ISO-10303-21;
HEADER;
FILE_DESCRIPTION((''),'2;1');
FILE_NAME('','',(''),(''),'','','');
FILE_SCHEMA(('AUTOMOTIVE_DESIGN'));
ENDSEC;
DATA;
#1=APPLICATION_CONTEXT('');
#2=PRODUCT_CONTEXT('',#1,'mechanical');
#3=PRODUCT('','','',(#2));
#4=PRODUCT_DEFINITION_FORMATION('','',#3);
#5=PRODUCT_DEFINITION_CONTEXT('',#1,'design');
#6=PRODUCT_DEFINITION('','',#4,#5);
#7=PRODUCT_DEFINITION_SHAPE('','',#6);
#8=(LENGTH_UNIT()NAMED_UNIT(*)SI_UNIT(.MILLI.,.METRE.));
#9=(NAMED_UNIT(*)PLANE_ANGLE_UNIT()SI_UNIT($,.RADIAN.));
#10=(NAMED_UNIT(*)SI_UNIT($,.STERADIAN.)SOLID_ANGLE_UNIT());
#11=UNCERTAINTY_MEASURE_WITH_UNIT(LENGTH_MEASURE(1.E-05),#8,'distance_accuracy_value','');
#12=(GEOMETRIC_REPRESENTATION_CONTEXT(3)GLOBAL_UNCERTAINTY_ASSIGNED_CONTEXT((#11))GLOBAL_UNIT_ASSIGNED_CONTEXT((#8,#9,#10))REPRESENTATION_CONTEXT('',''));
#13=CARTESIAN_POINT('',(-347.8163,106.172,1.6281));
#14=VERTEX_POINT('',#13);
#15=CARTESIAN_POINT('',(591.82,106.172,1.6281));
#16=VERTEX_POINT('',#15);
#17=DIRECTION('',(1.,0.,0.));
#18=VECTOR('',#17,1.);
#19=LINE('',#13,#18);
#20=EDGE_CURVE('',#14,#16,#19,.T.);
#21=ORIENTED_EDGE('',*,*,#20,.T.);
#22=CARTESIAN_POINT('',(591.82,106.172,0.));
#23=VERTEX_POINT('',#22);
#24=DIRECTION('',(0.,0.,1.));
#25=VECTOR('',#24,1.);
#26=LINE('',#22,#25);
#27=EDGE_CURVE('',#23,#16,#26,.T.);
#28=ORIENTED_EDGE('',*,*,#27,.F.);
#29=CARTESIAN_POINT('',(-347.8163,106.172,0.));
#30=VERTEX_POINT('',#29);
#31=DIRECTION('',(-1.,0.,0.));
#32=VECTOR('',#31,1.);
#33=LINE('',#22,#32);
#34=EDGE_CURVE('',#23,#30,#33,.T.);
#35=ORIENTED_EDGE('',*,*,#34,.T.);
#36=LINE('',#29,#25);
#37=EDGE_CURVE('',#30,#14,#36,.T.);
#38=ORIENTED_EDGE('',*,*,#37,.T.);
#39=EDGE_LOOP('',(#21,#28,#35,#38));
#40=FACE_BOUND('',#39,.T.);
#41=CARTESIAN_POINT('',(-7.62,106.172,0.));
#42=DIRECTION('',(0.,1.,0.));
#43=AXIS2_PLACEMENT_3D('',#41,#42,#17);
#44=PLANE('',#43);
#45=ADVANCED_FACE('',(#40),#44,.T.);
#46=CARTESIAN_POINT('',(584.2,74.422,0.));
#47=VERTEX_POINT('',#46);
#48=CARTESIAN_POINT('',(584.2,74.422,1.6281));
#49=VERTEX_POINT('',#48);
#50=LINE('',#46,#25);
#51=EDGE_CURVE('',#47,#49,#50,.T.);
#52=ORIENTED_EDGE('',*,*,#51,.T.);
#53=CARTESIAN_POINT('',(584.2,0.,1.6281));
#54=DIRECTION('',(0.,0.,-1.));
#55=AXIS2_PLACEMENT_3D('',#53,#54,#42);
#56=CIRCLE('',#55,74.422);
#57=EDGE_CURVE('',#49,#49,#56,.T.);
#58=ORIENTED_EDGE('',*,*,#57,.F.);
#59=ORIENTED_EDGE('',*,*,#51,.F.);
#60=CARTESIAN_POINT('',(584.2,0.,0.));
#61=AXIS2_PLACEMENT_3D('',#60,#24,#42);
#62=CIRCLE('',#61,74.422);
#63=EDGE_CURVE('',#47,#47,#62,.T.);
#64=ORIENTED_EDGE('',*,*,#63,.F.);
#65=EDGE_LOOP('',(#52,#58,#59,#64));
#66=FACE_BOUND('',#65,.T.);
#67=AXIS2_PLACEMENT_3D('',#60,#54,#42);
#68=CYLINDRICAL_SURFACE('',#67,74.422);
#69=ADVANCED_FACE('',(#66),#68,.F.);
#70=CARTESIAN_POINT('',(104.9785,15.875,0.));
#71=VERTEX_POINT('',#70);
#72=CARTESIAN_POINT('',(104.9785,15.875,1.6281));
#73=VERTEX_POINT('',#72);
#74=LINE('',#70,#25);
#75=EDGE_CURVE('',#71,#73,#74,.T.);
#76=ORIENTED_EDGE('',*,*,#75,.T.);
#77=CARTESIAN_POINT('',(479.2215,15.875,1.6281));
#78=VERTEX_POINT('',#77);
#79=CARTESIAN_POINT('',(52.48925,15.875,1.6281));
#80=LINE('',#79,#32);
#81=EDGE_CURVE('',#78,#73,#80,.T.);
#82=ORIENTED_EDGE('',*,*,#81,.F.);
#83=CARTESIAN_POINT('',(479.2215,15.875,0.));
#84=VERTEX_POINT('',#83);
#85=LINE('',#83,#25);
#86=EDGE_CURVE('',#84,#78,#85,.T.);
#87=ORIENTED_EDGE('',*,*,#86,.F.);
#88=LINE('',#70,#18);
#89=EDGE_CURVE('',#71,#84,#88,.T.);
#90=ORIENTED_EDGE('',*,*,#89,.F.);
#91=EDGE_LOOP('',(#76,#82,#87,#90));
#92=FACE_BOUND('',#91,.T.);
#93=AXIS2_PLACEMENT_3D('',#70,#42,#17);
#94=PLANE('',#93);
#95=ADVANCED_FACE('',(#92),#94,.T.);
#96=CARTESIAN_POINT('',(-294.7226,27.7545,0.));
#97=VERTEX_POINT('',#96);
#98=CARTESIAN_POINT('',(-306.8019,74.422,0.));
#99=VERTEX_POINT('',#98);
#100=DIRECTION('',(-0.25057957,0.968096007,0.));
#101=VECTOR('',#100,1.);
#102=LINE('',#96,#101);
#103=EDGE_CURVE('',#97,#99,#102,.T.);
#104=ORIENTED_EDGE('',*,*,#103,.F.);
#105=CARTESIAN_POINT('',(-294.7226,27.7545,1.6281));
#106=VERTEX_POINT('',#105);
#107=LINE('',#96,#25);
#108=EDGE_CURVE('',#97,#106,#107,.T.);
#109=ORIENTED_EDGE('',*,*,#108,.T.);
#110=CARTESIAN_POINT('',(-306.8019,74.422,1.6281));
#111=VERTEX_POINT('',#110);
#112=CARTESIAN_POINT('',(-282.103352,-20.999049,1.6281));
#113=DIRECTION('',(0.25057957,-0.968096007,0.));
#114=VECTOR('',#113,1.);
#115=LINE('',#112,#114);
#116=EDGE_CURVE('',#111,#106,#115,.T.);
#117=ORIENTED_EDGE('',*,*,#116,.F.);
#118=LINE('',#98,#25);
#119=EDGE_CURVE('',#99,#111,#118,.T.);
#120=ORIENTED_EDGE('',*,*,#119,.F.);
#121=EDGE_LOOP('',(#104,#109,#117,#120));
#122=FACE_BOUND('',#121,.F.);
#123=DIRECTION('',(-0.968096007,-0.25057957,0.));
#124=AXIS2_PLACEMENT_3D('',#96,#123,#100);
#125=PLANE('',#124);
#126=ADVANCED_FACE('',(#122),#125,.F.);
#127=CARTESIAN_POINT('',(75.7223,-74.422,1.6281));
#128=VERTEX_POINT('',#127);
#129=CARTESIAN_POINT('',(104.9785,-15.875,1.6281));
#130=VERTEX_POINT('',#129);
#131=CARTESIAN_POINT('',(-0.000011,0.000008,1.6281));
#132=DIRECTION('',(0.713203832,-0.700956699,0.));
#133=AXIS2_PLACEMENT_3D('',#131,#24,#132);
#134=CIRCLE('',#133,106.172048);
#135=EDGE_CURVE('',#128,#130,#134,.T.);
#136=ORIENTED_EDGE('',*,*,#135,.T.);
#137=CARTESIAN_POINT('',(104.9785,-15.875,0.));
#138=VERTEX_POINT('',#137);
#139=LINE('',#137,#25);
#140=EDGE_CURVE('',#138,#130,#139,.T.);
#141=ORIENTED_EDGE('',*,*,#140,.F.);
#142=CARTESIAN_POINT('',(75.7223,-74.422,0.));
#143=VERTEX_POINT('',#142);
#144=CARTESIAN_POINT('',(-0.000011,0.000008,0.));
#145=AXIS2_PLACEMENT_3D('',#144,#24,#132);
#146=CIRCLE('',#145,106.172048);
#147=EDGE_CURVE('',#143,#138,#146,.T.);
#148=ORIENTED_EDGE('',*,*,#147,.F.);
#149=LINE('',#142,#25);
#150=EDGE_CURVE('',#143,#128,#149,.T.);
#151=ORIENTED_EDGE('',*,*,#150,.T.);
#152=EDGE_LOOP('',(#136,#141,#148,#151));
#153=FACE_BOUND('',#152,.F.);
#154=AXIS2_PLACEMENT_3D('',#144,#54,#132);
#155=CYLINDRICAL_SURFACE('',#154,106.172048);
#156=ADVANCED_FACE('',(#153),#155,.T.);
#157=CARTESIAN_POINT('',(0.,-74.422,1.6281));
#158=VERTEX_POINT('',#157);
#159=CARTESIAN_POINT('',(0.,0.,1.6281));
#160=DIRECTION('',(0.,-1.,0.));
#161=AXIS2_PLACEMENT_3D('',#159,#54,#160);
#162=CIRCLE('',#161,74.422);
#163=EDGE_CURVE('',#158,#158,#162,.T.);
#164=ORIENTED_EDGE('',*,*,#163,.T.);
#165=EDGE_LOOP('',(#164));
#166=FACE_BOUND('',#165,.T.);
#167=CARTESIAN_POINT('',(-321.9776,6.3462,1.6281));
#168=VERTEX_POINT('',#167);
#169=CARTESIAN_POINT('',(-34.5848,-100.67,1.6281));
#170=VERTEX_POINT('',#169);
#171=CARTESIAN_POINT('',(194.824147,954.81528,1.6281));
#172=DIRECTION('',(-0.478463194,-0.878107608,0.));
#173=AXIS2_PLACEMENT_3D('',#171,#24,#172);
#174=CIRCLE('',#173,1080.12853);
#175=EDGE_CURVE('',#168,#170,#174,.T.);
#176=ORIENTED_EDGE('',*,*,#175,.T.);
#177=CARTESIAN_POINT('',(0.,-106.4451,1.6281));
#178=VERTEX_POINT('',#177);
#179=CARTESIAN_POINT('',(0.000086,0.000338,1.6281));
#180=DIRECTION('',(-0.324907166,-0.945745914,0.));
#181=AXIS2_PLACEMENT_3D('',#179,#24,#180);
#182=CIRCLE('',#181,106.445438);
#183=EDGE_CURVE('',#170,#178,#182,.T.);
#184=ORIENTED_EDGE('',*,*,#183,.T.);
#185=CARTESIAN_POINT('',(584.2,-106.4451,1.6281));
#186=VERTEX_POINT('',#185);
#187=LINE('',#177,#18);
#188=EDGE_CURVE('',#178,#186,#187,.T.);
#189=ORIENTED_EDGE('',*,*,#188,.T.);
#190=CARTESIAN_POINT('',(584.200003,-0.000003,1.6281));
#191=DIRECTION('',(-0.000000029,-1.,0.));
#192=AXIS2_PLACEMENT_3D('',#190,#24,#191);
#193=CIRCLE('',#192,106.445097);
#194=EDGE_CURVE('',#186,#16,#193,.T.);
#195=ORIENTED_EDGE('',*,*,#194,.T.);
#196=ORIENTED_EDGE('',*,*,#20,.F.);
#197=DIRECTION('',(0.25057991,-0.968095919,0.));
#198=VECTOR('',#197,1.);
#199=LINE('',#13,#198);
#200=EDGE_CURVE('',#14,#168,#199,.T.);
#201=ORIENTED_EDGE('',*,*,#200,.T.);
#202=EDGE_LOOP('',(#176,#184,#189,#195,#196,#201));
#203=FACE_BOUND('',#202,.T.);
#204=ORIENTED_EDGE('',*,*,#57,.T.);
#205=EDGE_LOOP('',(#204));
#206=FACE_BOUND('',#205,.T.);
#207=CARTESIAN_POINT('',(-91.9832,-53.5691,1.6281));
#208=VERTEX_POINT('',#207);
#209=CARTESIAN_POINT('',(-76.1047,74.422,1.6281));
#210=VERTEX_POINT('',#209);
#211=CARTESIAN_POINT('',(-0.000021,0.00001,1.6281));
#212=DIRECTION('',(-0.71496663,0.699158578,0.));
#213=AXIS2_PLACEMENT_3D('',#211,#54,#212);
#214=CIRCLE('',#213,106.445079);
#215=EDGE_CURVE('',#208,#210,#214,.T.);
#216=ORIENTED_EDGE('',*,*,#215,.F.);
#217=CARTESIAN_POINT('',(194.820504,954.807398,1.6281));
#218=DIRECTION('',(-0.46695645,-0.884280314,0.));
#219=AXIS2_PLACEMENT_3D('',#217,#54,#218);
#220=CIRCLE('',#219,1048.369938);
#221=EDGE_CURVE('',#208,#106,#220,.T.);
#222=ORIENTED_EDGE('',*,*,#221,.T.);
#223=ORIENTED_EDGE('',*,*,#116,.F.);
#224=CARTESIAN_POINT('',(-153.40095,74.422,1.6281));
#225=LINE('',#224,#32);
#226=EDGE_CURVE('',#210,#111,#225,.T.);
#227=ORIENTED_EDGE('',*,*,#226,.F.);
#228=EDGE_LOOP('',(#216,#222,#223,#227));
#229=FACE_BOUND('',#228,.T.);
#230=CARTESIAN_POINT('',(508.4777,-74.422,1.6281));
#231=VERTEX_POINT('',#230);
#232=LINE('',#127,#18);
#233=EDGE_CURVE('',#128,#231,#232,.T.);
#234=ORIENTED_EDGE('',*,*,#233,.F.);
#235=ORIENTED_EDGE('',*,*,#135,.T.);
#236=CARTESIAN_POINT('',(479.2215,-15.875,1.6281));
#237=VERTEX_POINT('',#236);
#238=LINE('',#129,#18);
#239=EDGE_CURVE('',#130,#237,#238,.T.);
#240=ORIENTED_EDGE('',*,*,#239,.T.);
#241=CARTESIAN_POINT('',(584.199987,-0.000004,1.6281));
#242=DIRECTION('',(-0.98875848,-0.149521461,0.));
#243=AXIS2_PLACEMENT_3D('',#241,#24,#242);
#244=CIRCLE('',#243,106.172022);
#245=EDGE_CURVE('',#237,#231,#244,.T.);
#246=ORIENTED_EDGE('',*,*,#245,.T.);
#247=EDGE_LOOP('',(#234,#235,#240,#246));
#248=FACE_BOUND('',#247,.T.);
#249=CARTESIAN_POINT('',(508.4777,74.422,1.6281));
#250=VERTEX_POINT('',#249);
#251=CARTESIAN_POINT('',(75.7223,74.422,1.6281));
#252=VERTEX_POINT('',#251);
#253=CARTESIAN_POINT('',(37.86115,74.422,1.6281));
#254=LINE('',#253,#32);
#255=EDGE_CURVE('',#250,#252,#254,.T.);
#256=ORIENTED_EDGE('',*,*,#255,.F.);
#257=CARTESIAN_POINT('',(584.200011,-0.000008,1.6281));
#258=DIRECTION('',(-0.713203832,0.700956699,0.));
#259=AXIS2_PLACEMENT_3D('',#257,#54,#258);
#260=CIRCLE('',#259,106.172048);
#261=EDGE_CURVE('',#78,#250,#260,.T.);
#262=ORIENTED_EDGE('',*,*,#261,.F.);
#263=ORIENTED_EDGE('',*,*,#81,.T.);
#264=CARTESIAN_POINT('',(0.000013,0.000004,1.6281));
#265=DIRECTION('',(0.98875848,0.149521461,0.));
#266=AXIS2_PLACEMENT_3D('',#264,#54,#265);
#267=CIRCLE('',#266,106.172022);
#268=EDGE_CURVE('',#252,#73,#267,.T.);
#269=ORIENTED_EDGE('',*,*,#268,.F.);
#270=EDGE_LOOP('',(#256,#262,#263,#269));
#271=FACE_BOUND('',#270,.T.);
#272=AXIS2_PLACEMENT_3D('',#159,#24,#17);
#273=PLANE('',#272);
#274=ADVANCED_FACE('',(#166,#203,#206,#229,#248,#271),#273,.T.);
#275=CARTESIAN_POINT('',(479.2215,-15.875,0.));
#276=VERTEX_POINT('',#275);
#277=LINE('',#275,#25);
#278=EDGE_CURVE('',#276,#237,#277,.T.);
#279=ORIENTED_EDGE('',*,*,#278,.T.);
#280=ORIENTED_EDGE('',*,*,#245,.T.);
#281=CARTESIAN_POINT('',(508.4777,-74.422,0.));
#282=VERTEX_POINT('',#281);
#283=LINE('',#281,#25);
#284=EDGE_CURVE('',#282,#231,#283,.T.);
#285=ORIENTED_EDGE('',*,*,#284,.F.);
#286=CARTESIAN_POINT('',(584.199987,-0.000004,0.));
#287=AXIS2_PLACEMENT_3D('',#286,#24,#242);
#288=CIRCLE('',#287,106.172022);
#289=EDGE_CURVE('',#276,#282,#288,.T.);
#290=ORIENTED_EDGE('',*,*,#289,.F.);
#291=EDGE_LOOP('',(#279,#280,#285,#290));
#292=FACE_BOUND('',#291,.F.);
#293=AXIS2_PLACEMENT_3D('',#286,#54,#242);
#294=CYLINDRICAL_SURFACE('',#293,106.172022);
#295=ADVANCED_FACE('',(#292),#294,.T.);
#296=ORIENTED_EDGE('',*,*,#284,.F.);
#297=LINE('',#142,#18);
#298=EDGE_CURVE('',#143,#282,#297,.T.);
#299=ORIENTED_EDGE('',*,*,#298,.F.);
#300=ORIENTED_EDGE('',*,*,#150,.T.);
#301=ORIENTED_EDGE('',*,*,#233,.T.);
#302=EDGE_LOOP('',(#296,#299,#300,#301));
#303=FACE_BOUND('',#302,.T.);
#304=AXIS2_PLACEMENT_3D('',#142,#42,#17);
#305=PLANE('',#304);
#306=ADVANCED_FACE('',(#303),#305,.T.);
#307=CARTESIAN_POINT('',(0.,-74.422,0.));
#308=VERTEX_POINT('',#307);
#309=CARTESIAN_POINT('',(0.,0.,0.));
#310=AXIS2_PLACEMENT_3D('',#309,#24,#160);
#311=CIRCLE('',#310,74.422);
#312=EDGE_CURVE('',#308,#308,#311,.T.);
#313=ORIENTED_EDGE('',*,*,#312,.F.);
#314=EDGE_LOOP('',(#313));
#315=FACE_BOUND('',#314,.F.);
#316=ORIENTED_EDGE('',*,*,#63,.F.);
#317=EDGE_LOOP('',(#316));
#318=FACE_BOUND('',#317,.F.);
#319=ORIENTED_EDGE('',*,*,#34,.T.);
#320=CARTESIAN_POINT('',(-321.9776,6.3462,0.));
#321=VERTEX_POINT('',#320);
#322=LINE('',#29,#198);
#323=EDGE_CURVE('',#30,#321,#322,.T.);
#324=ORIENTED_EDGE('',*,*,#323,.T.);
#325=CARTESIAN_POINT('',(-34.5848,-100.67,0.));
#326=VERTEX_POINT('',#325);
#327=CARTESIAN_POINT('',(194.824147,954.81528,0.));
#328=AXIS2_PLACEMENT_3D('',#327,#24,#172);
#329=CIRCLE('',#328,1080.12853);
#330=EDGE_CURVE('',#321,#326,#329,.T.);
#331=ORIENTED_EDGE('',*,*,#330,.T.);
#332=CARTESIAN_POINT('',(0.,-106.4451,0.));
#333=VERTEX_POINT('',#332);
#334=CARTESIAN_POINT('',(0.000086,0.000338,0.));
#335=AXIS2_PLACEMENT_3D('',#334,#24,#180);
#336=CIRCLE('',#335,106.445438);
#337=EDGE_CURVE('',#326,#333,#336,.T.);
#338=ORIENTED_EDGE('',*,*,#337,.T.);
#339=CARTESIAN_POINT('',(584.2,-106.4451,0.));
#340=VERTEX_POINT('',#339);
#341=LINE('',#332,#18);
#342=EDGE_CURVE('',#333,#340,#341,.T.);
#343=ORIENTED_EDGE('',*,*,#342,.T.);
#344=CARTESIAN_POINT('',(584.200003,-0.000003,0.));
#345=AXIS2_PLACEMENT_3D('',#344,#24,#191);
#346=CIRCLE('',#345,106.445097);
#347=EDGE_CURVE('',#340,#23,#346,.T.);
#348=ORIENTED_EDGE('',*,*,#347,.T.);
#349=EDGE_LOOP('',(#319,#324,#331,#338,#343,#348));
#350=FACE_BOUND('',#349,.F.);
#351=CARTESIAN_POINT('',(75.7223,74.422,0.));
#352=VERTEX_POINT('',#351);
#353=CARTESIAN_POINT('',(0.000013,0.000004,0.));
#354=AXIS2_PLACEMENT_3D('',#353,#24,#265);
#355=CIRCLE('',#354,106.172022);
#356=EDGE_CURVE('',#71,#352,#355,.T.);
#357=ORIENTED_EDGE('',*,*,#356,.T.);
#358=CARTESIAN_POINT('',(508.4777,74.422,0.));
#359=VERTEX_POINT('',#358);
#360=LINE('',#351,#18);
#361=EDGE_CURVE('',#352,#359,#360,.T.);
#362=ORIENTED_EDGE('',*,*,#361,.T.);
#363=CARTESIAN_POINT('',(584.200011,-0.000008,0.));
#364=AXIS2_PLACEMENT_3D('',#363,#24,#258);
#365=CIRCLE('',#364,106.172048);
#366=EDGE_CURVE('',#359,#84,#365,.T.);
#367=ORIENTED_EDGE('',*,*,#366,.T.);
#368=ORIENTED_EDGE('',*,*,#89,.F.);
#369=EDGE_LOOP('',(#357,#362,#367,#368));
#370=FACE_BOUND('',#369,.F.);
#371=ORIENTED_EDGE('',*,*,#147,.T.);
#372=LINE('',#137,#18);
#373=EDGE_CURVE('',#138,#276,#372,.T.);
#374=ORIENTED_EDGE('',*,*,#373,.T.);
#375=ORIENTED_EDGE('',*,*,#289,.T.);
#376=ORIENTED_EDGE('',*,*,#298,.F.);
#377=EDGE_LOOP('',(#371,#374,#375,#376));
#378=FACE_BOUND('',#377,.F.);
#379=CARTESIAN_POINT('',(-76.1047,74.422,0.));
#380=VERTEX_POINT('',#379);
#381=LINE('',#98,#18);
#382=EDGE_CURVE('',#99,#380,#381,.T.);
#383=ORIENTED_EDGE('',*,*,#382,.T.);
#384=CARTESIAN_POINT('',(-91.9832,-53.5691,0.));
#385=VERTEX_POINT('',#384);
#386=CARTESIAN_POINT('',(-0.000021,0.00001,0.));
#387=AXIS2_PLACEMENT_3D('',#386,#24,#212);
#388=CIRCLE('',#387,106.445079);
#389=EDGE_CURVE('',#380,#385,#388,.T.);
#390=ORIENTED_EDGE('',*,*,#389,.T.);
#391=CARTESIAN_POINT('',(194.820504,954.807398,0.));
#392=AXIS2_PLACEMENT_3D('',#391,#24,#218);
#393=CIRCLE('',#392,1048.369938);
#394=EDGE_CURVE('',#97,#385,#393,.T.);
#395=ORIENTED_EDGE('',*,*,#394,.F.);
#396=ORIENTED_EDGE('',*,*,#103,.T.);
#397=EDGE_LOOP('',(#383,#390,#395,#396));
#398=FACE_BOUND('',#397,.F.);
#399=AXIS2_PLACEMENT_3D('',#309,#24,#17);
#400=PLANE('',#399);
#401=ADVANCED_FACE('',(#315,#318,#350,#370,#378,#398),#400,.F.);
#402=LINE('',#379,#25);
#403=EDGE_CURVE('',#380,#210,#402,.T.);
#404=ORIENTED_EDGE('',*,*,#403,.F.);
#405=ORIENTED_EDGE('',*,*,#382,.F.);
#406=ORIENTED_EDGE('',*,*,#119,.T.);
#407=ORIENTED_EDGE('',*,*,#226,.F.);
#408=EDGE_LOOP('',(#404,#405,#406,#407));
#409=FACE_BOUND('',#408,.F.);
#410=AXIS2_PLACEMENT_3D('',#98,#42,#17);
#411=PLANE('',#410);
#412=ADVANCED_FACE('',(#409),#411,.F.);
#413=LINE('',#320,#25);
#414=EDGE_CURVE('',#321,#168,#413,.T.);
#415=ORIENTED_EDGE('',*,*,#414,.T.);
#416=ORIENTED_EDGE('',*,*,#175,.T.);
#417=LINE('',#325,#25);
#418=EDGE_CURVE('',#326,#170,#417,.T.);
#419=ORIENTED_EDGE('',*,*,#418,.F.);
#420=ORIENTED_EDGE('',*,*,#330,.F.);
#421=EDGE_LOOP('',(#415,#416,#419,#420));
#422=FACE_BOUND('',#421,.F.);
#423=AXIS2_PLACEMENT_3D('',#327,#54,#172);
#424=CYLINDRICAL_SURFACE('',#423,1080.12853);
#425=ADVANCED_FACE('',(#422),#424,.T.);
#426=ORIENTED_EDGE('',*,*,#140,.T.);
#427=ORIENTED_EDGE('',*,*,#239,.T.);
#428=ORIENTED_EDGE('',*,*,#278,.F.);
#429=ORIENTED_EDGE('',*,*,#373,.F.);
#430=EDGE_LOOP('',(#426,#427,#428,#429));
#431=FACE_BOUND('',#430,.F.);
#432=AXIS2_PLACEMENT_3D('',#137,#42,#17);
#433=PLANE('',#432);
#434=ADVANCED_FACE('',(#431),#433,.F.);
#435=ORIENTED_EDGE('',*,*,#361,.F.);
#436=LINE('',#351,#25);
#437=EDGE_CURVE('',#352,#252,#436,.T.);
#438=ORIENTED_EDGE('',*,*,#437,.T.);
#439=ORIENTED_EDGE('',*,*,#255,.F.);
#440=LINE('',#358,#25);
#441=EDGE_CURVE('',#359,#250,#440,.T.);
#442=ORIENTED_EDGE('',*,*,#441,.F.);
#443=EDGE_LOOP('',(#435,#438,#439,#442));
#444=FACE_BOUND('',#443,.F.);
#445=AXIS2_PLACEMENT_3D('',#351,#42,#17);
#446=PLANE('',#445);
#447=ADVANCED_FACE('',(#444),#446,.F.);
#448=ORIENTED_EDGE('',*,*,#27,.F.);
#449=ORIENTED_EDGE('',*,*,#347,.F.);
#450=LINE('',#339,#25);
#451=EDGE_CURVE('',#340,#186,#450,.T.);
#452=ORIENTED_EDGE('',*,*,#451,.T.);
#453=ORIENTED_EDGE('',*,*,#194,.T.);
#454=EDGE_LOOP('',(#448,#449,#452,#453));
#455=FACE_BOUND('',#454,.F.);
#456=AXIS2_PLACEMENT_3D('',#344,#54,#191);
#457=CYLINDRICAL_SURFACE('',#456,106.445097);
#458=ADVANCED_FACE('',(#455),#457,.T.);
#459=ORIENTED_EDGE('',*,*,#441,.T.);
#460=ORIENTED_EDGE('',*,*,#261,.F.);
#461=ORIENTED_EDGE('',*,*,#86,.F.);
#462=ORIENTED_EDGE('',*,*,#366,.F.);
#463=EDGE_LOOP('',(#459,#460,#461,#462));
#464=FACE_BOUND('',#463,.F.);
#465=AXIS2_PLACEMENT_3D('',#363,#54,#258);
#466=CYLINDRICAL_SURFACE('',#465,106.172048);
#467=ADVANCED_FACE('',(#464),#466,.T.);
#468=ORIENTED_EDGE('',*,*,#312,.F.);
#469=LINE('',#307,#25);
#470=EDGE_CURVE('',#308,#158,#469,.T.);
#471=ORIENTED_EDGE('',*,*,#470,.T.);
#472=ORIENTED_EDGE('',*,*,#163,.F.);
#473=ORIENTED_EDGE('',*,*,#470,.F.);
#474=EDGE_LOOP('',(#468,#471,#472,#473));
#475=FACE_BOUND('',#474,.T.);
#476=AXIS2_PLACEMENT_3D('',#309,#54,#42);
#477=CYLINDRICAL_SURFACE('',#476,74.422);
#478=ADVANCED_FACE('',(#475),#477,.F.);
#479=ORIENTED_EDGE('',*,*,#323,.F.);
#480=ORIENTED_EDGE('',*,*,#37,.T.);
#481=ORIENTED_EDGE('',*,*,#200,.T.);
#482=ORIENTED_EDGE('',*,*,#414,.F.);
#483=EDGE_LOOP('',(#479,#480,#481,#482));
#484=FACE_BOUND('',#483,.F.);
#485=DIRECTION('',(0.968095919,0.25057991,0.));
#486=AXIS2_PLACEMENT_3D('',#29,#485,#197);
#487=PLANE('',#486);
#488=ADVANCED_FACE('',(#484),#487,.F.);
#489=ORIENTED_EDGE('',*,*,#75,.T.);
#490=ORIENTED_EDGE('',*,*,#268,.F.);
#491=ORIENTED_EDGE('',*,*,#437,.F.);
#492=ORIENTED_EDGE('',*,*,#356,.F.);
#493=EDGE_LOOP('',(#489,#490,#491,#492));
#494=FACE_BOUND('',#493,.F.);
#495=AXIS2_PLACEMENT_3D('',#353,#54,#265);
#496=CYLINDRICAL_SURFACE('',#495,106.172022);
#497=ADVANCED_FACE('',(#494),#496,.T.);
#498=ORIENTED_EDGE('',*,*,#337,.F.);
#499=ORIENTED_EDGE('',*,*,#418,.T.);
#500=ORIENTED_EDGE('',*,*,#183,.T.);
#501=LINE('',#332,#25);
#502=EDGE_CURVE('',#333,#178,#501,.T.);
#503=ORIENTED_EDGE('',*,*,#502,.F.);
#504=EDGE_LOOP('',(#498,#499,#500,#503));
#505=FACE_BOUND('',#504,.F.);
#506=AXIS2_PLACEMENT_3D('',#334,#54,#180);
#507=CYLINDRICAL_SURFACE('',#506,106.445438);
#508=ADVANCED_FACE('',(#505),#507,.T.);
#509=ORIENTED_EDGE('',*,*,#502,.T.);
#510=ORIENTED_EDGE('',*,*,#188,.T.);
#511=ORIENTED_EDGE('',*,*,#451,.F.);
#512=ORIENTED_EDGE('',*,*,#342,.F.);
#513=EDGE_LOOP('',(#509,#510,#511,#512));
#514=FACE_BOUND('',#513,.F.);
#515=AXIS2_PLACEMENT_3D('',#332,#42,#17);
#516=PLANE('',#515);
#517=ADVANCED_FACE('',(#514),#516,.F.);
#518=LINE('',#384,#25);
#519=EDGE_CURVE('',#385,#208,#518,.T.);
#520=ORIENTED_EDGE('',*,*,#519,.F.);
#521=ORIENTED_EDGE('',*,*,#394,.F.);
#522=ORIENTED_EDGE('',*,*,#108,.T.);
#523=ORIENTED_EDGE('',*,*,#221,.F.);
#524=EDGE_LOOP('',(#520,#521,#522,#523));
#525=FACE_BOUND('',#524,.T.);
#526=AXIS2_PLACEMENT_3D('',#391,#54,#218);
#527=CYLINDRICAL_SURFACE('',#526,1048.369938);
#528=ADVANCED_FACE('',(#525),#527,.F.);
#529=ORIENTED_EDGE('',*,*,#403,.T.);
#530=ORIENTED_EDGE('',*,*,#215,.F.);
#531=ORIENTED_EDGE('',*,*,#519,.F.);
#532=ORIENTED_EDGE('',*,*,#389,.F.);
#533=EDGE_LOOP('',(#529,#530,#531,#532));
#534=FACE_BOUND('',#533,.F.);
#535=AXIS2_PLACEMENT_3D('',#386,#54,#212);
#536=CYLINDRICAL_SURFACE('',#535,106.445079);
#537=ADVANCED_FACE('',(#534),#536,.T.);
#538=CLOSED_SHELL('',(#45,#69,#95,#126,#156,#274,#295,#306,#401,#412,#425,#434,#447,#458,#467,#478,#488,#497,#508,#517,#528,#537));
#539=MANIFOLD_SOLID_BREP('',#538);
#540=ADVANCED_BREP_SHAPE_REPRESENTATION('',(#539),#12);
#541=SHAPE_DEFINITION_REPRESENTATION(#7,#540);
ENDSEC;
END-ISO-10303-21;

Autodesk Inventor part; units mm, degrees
ref_plane "YZ Plane" through (0, 0, 0) normal (1, 0, 0) x (0, 1, 0)
ref_plane "XZ Plane" through (0, 0, 0) normal (0, 1, 0) x (-1, 0, 0)
ref_plane "XY Plane" through (0, 0, 0) normal (0, 0, 1) x (1, 0, 0)
sketch "Fender Base" plane through (0, 0, 0) normal (0, 0, 1) x (1, 0, 0)
  line L0 (-7.62, 106.172) -> (7.62, 106.172) construction
  line L1 (111.252, 7.62) -> (111.252, -7.62)
  line L2 (576.58, 106.172) -> (591.82, 106.172) construction
  line L3 (692.912, 7.62) -> (692.912, -7.62) construction
  line L4 (-7.62, 106.172) -> (591.82, 106.172)
  arc A0 (528.4894, 74.422) -> (584.2, 92.964) centre (584.2, 0) ccw construction
  circle A1 centre (0, 0) radius 92.964 construction
  arc A2 (584.2, -106.4451) -> (591.82, 106.172) centre (584.2, 0) ccw
  line L5 (584.2, 0) -> (584.2, -74.422) construction
  line L6 (0, 0) -> (0, -106.4451) construction
  line L7 (0, -106.4451) -> (584.2, -106.4451)
  line L8 (0, 92.964) -> (584.2, 92.964) construction
  line L9 (0, -92.964) -> (584.2, -92.964) construction
  line L10 (75.7223, 74.422) -> (508.4777, 74.422)
  line L11 (0, 0) -> (584.2, 0) construction
  line L12 (75.7223, -74.422) -> (508.4777, -74.422)
  arc A3 (0, -74.422) -> (0, 74.422) centre (0, 0) ccw
  arc A4 (509.778, 0) -> (584.2, -74.422) centre (584.2, 0) ccw
  arc A5 (0, 74.422) -> (0, -74.422) centre (0, 0) ccw
  line L13 (584.2, -74.422) -> (584.2, -106.4451) construction
  arc A6 (584.2, 74.422) -> (509.778, 0) centre (584.2, 0) ccw
  arc A7 (584.2, -74.422) -> (584.2, 74.422) centre (584.2, 0) ccw
  arc A8 (479.2215, -15.875) -> (508.4777, -74.422) centre (584.2, 0) ccw
  arc A9 (508.4777, 74.422) -> (479.2215, 15.875) centre (584.2, 0) ccw
  arc A10 (584.2, 92.964) -> (528.4894, 74.422) centre (584.2, 0) ccw construction
  line L14 (104.9785, 15.875) -> (479.2215, 15.875)
  line L15 (104.9785, -15.875) -> (479.2215, -15.875)
  arc A11 (75.7223, -74.422) -> (104.9785, -15.875) centre (0, 0) ccw
  arc A12 (104.9785, 15.875) -> (75.7223, 74.422) centre (0, 0) ccw
  line L16 (111.252, 7.62) -> (111.252, -7.62) construction
  circle A13 centre (0, 0) radius 78.74 construction
  circle A14 centre (-433.085, 76.2) radius 38.1 construction
  circle A15 centre (0, 0) radius 439.7375 construction
  circle A16 centre (-306.5807, 82.55) radius 3.175 construction
  arc A17 (-317.4589, 5.1115) -> (-308.6545, 74.422) centre (0, 0) ccw construction
  line L17 (-429.979, 114.1732) -> (6.4191, 78.4779) construction
  line L18 (-443.1268, 39.4471) -> (-20.753, -75.9559) construction
  line L19 (-7.62, 106.172) -> (-347.8163, 106.172)
  line L20 (-347.8163, 155.9143) -> (-347.8163, -18.2544) construction
  arc A18 (-321.9776, 6.3462) -> (-34.5848, -100.67) centre (194.8237, 954.8143) ccw
  line L21 (-347.8163, 106.172) -> (-321.9776, 6.3462)
  line L22 (-283.1615, -143.6169) -> (-252.5039, -262.0603)
  arc A19 (-294.7226, 27.7545) -> (-91.9832, -53.5691) centre (194.8237, 954.8143) ccw
  line L23 (-294.7226, 27.7545) -> (-306.8019, 74.422)
  line L24 (-306.8019, 74.422) -> (-76.1047, 74.422)
  arc A20 (-76.1047, 74.422) -> (-91.9832, -53.5691) centre (0, 0) ccw
  arc A21 (-34.5848, -100.67) -> (0, -106.4451) centre (0, 0) ccw
  point P0 (0, 106.172)
  point P1 (111.252, 0)
  point P2 (584.2, 106.172)
  point P3 (692.912, 0)
  dimension "d100" = 879.475
  dimension "d0" = 15.24
  dimension "d1" = 106.172
  dimension "d2" = 15.24
  dimension "d3" = 111.252
  dimension "d4" = 15.24
  dimension "d5" = 106.172
  dimension "d6" = 584.2
  dimension "d7" = 15.24
  dimension "d8" = 108.712
  dimension "d9" = 584.2
  dimension "d10" = 185.928
  dimension "d11" = 185.928
  dimension "d13" = 584.2
  dimension "d14" = 31.75
  dimension "d66" = 31.75
  dimension "d96" = 157.48
  dimension "d97" = 76.2
  dimension "d99" = 76.2
  dimension "d101" = 6.35
  dimension "d102" = 82.55
  dimension "d103" = 635
  dimension "d106" = 31.75
extrude "Plate1" add sketch "Fender Base" along normal blind 1.6281 contours L4 A2 L7 A21 A18 L21 L19 | L10 A9 L14 A12 | A5 A3 | A6 A7 A4 | L23 L24 A20 A19
sketch "Oval Pattern" plane through (0, 0, 1.6281) normal (0, 0, 1) x (1, 0, 0)
  circle A0 centre (-25.6073, 82.042) radius 6.35
  arc A1 (-14.4463, 83.0479) -> (-28.9236, 92.7462) centre (-25.6073, 82.042) ccw
  arc A2 (12.2648, 98.9975) -> (-28.9236, 92.7462) centre (-1.2605, 49.2962) ccw
  arc A3 (12.2648, 98.9975) -> (-14.4463, 83.0479) centre (17.7837, 59.4132) ccw
  circle A4 centre (-61.4767, 60.0603) radius 6.35
  arc A5 (-52.1303, 66.2426) -> (-69.4759, 67.9082) centre (-61.4767, 60.0603) ccw
  arc A6 (-36.1888, 92.9586) -> (-69.4759, 67.9082) centre (-24.5055, 42.7924) ccw
  arc A7 (-36.1888, 92.9586) -> (-52.1303, 66.2426) centre (-12.5443, 60.7357) ccw
  circle A8 centre (-82.6165, 23.6883) radius 6.35
  arc A9 (-77.3239, 33.5658) -> (-93.3821, 26.7996) centre (-82.6165, 23.6883) ccw
  arc A10 (-75.9716, 64.6471) -> (-93.3821, 26.7996) centre (-41.879, 26.0356) ccw
  arc A11 (-75.9716, 64.6471) -> (-77.3239, 33.5658) centre (-39.8667, 47.5062) ccw
  circle A12 centre (-83.9616, -18.3594) radius 6.35
  arc A13 (-83.991, -7.1533) -> (-94.9141, -20.7301) centre (-83.9616, -18.3594) ccw
  arc A14 (-97.5518, 20.8463) -> (-94.9141, -20.7301) centre (-49.2185, 3.0408) ccw
  arc A15 (-97.5518, 20.8463) -> (-83.991, -7.1533) centre (-57.6371, 22.8943) ccw
  circle A16 centre (-65.1898, -56.0082) radius 6.35
  arc A17 (-70.534, -46.1585) -> (-73.705, -63.293) centre (-65.1898, -56.0082) ccw
  arc A18 (-95.7589, -27.9492) -> (-73.705, -63.293) centre (-44.7653, -20.6826) ccw
  arc A19 (-95.7589, -27.9492) -> (-70.534, -46.1585) centre (-61.5979, -7.2031) ccw
  circle A20 centre (-30.7986, -80.2376) radius 6.35
  arc A21 (-40.1773, -74.1042) -> (-34.8364, -90.691) centre (-30.7986, -80.2376) ccw
  arc A22 (-71.0224, -70.0481) -> (-34.8364, -90.691) centre (-29.5865, -39.4505) ccw
  arc A23 (-71.0224, -70.0481) -> (-40.1773, -74.1042) centre (-50.8, -35.5745) ccw
  circle A24 centre (10.9718, -85.2423) radius 6.35
  arc A25 (-0.1943, -84.2948) -> (12.3789, -96.3597) centre (10.9718, -85.2423) ccw
  arc A26 (-29.2692, -95.3637) -> (12.3789, -96.3597) centre (-7.3189, -48.7662) ccw
  arc A27 (-29.2692, -95.3637) -> (-0.1943, -84.2948) centre (-27.8305, -55.4225) ccw
  line L0 (-347.8163, 106.172) -> (591.82, 106.172) projected
  circle A28 centre (19.9908, 83.9489) radius 6.35
  arc A29 (31.1517, 84.9548) -> (16.6745, 94.6531) centre (19.9908, 83.9489) ccw
  arc A30 (57.8628, 100.9043) -> (16.6745, 94.6531) centre (44.3376, 51.2031) ccw
  arc A31 (57.8628, 100.9043) -> (31.1517, 84.9548) centre (63.3817, 61.32) ccw
  circle A32 centre (65.7108, 83.9489) radius 6.35
  arc A33 (76.8717, 84.9548) -> (62.3945, 94.6531) centre (65.7108, 83.9489) ccw
  arc A34 (103.5828, 100.9043) -> (76.8717, 84.9548) centre (109.1017, 61.32) ccw
  arc A35 (103.5828, 100.9043) -> (62.3945, 94.6531) centre (90.0576, 51.2031) ccw
  circle A36 centre (111.4308, 83.9489) radius 6.35
  arc A37 (122.5917, 84.9548) -> (108.1145, 94.6531) centre (111.4308, 83.9489) ccw
  arc A38 (149.3028, 100.9043) -> (122.5917, 84.9548) centre (154.8217, 61.32) ccw
  arc A39 (149.3028, 100.9043) -> (108.1145, 94.6531) centre (135.7776, 51.2031) ccw
  circle A40 centre (157.1508, 83.9489) radius 6.35
  arc A41 (168.3117, 84.9548) -> (153.8345, 94.6531) centre (157.1508, 83.9489) ccw
  arc A42 (195.0228, 100.9043) -> (168.3117, 84.9548) centre (200.5417, 61.32) ccw
  arc A43 (195.0228, 100.9043) -> (153.8345, 94.6531) centre (181.4976, 51.2031) ccw
  circle A44 centre (202.8708, 83.9489) radius 6.35
  arc A45 (214.0317, 84.9548) -> (199.5545, 94.6531) centre (202.8708, 83.9489) ccw
  arc A46 (240.7428, 100.9043) -> (214.0317, 84.9548) centre (246.2617, 61.32) ccw
  arc A47 (240.7428, 100.9043) -> (199.5545, 94.6531) centre (227.2176, 51.2031) ccw
  circle A48 centre (248.5908, 83.9489) radius 6.35
  arc A49 (259.7517, 84.9548) -> (245.2745, 94.6531) centre (248.5908, 83.9489) ccw
  arc A50 (286.4628, 100.9043) -> (259.7517, 84.9548) centre (291.9817, 61.32) ccw
  arc A51 (286.4628, 100.9043) -> (245.2745, 94.6531) centre (272.9376, 51.2031) ccw
  circle A52 centre (294.3108, 83.9489) radius 6.35
  arc A53 (305.4717, 84.9548) -> (290.9945, 94.6531) centre (294.3108, 83.9489) ccw
  arc A54 (332.1828, 100.9043) -> (305.4717, 84.9548) centre (337.7017, 61.32) ccw
  arc A55 (332.1828, 100.9043) -> (290.9945, 94.6531) centre (318.6576, 51.2031) ccw
  circle A56 centre (340.0308, 83.9489) radius 6.35
  arc A57 (351.1917, 84.9548) -> (336.7145, 94.6531) centre (340.0308, 83.9489) ccw
  arc A58 (377.9028, 100.9043) -> (351.1917, 84.9548) centre (383.4217, 61.32) ccw
  arc A59 (377.9028, 100.9043) -> (336.7145, 94.6531) centre (364.3776, 51.2031) ccw
  circle A60 centre (385.7508, 83.9489) radius 6.35
  arc A61 (396.9117, 84.9548) -> (382.4345, 94.6531) centre (385.7508, 83.9489) ccw
  arc A62 (423.6228, 100.9043) -> (396.9117, 84.9548) centre (429.1417, 61.32) ccw
  arc A63 (423.6228, 100.9043) -> (382.4345, 94.6531) centre (410.0976, 51.2031) ccw
  circle A64 centre (431.4708, 83.9489) radius 6.35
  arc A65 (442.6317, 84.9548) -> (428.1545, 94.6531) centre (431.4708, 83.9489) ccw
  arc A66 (469.3428, 100.9043) -> (442.6317, 84.9548) centre (474.8617, 61.32) ccw
  arc A67 (469.3428, 100.9043) -> (428.1545, 94.6531) centre (455.8176, 51.2031) ccw
  circle A68 centre (477.1908, 83.9489) radius 6.35
  arc A69 (488.3517, 84.9548) -> (473.8745, 94.6531) centre (477.1908, 83.9489) ccw
  arc A70 (515.0628, 100.9043) -> (488.3517, 84.9548) centre (520.5817, 61.32) ccw
  arc A71 (515.0628, 100.9043) -> (473.8745, 94.6531) centre (501.5376, 51.2031) ccw
  circle A72 centre (522.9108, 83.9489) radius 6.35
  arc A73 (534.0717, 84.9548) -> (519.5945, 94.6531) centre (522.9108, 83.9489) ccw
  arc A74 (560.7828, 100.9043) -> (534.0717, 84.9548) centre (566.3017, 61.32) ccw
  arc A75 (560.7828, 100.9043) -> (519.5945, 94.6531) centre (547.2576, 51.2031) ccw
  circle A76 centre (568.6308, 83.9489) radius 6.35
  arc A77 (579.7917, 84.9548) -> (565.3145, 94.6531) centre (568.6308, 83.9489) ccw
  arc A78 (606.5028, 100.9043) -> (579.7917, 84.9548) centre (612.0217, 61.32) ccw
  arc A79 (606.5028, 100.9043) -> (565.3145, 94.6531) centre (592.9776, 51.2031) ccw
  line L1 (75.7223, 74.422) -> (508.4777, 74.422) projected
  circle A80 centre (612.6911, 80.4865) radius 6.35
  arc A81 (622.8597, 75.7771) -> (615.1712, 91.4147) centre (612.6911, 80.4865) ccw
  arc A82 (653.967, 76.2343) -> (615.1712, 91.4147) centre (617.4031, 39.9544) ccw
  arc A83 (653.967, 76.2343) -> (622.8597, 75.7771) centre (638.9544, 39.1938) ccw
  circle A84 centre (649.1172, 55.4578) radius 6.35
  arc A85 (655.5688, 46.2951) -> (656.7292, 63.6819) centre (649.1172, 55.4578) ccw
  arc A86 (682.7371, 31.1374) -> (656.7292, 63.6819) centre (632.9319, 17.9999) ccw
  arc A87 (682.7371, 31.1374) -> (655.5688, 46.2951) centre (651.2156, 6.5657) ccw
  circle A88 centre (668.1489, 15.5692) radius 6.35
  arc A89 (669.1548, 4.4083) -> (678.8531, 18.8855) centre (668.1489, 15.5692) ccw
  arc A90 (685.1043, -22.3028) -> (678.8531, 18.8855) centre (635.4031, -8.7776) ccw
  arc A91 (685.1043, -22.3028) -> (669.1548, 4.4083) centre (645.52, -27.8217) ccw
  circle A92 centre (664.6865, -28.4911) radius 6.35
  arc A93 (659.9771, -38.6597) -> (675.6147, -30.9712) centre (664.6865, -28.4911) ccw
  arc A94 (660.4343, -69.767) -> (675.6147, -30.9712) centre (624.1544, -33.2031) ccw
  arc A95 (660.4343, -69.767) -> (659.9771, -38.6597) centre (623.3938, -54.7544) ccw
  circle A96 centre (639.6578, -64.9172) radius 6.35
  arc A97 (630.4951, -71.3688) -> (647.8819, -72.5292) centre (639.6578, -64.9172) ccw
  arc A98 (615.3374, -98.5371) -> (647.8819, -72.5292) centre (602.1999, -48.7319) ccw
  arc A99 (615.3374, -98.5371) -> (630.4951, -71.3688) centre (590.7657, -67.0156) ccw
  circle A100 centre (599.7692, -83.9489) radius 6.35
  arc A101 (588.6083, -84.9548) -> (603.0855, -94.6531) centre (599.7692, -83.9489) ccw
  arc A102 (561.8972, -100.9043) -> (603.0855, -94.6531) centre (575.4224, -51.2031) ccw
  arc A103 (561.8972, -100.9043) -> (588.6083, -84.9548) centre (556.3783, -61.32) ccw
  line L2 (584.2, -106.4451) -> (0, -106.4451) projected
  circle A104 centre (60.5018, -85.2423) radius 6.35
  arc A105 (49.3357, -84.2948) -> (61.9089, -96.3597) centre (60.5018, -85.2423) ccw
  arc A106 (20.2608, -95.3637) -> (49.3357, -84.2948) centre (21.6995, -55.4225) ccw
  arc A107 (20.2608, -95.3637) -> (61.9089, -96.3597) centre (42.2111, -48.7662) ccw
  circle A108 centre (110.0318, -85.2423) radius 6.35
  arc A109 (98.8657, -84.2948) -> (111.4389, -96.3597) centre (110.0318, -85.2423) ccw
  arc A110 (69.7908, -95.3637) -> (98.8657, -84.2948) centre (71.2295, -55.4225) ccw
  arc A111 (69.7908, -95.3637) -> (111.4389, -96.3597) centre (91.7411, -48.7662) ccw
  circle A112 centre (159.5618, -85.2423) radius 6.35
  arc A113 (148.3957, -84.2948) -> (160.9689, -96.3597) centre (159.5618, -85.2423) ccw
  arc A114 (119.3208, -95.3637) -> (148.3957, -84.2948) centre (120.7595, -55.4225) ccw
  arc A115 (119.3208, -95.3637) -> (160.9689, -96.3597) centre (141.2711, -48.7662) ccw
  circle A116 centre (209.0918, -85.2423) radius 6.35
  arc A117 (197.9257, -84.2948) -> (210.4989, -96.3597) centre (209.0918, -85.2423) ccw
  arc A118 (168.8508, -95.3637) -> (197.9257, -84.2948) centre (170.2895, -55.4225) ccw
  arc A119 (168.8508, -95.3637) -> (210.4989, -96.3597) centre (190.8011, -48.7662) ccw
  circle A120 centre (258.6218, -85.2423) radius 6.35
  arc A121 (247.4557, -84.2948) -> (260.0289, -96.3597) centre (258.6218, -85.2423) ccw
  arc A122 (218.3808, -95.3637) -> (247.4557, -84.2948) centre (219.8195, -55.4225) ccw
  arc A123 (218.3808, -95.3637) -> (260.0289, -96.3597) centre (240.3311, -48.7662) ccw
  circle A124 centre (308.1518, -85.2423) radius 6.35
  arc A125 (296.9857, -84.2948) -> (309.5589, -96.3597) centre (308.1518, -85.2423) ccw
  arc A126 (267.9108, -95.3637) -> (296.9857, -84.2948) centre (269.3495, -55.4225) ccw
  arc A127 (267.9108, -95.3637) -> (309.5589, -96.3597) centre (289.8611, -48.7662) ccw
  circle A128 centre (357.6818, -85.2423) radius 6.35
  arc A129 (346.5157, -84.2948) -> (359.0889, -96.3597) centre (357.6818, -85.2423) ccw
  arc A130 (317.4408, -95.3637) -> (346.5157, -84.2948) centre (318.8795, -55.4225) ccw
  arc A131 (317.4408, -95.3637) -> (359.0889, -96.3597) centre (339.3911, -48.7662) ccw
  circle A132 centre (407.2118, -85.2423) radius 6.35
  arc A133 (396.0457, -84.2948) -> (408.6189, -96.3597) centre (407.2118, -85.2423) ccw
  arc A134 (366.9708, -95.3637) -> (396.0457, -84.2948) centre (368.4095, -55.4225) ccw
  arc A135 (366.9708, -95.3637) -> (408.6189, -96.3597) centre (388.9211, -48.7662) ccw
  circle A136 centre (456.7418, -85.2423) radius 6.35
  arc A137 (445.5757, -84.2948) -> (458.1489, -96.3597) centre (456.7418, -85.2423) ccw
  arc A138 (416.5008, -95.3637) -> (445.5757, -84.2948) centre (417.9395, -55.4225) ccw
  arc A139 (416.5008, -95.3637) -> (458.1489, -96.3597) centre (438.4511, -48.7662) ccw
  circle A140 centre (506.2718, -85.2423) radius 6.35
  arc A141 (495.1057, -84.2948) -> (507.6789, -96.3597) centre (506.2718, -85.2423) ccw
  arc A142 (466.0308, -95.3637) -> (495.1057, -84.2948) centre (467.4695, -55.4225) ccw
  arc A143 (466.0308, -95.3637) -> (507.6789, -96.3597) centre (487.9811, -48.7662) ccw
  circle A144 centre (555.8018, -85.2423) radius 6.35
  arc A145 (544.6357, -84.2948) -> (557.2089, -96.3597) centre (555.8018, -85.2423) ccw
  arc A146 (515.5608, -95.3637) -> (544.6357, -84.2948) centre (516.9995, -55.4225) ccw
  arc A147 (515.5608, -95.3637) -> (557.2089, -96.3597) centre (537.5111, -48.7662) ccw
  line L3 (104.9785, 15.875) -> (479.2215, 15.875) projected
  arc A148 (104.9785, 15.875) -> (75.7223, 74.422) centre (0, 0) ccw projected
  arc A149 (508.4777, 74.422) -> (479.2215, 15.875) centre (584.2, 0) ccw projected
  circle A150 centre (430.2676, 0) radius 8.89
  line L4 (0, 0) -> (584.2, 0) construction
  line L5 (430.2676, 8.89) -> (430.2676, -8.89) construction
  arc A151 (423.8766, 11.8482) -> (423.8766, -11.8482) centre (430.2676, 0) ccw
  arc A152 (436.6586, -11.8482) -> (436.6586, 11.8482) centre (430.2676, 0) ccw
  arc A153 (423.8766, 11.8482) -> (389.1564, 0) centre (441.3857, -96.257) ccw
  arc A154 (389.1564, 0) -> (423.8766, -11.8482) centre (441.3857, 96.257) ccw
  arc A155 (471.3788, 0) -> (436.6586, 11.8482) centre (419.1495, -96.257) ccw
  arc A156 (436.6586, -11.8482) -> (471.3788, 0) centre (419.1495, 96.257) ccw
  arc A157 (584.2, 74.422) -> (509.778, 0) centre (584.2, 0) ccw projected
  arc A158 (509.778, 0) -> (584.2, -74.422) centre (584.2, 0) ccw projected
  arc A159 (0, 74.422) -> (0, -74.422) centre (0, 0) ccw projected
  arc A160 (0, -74.422) -> (0, 74.422) centre (0, 0) ccw projected
  arc A161 (75.7223, -74.422) -> (104.9785, -15.875) centre (0, 0) ccw construction
  arc A162 (300.2564, 0) -> (334.9766, -11.8482) centre (352.4857, 96.257) ccw
  arc A163 (334.9766, 11.8482) -> (300.2564, 0) centre (352.4857, -96.257) ccw
  arc A164 (334.9766, 11.8482) -> (334.9766, -11.8482) centre (341.3676, 0) ccw
  line L6 (341.3676, 8.89) -> (341.3676, -8.89) construction
  circle A165 centre (341.3676, 0) radius 8.89
  arc A166 (347.7586, -11.8482) -> (347.7586, 11.8482) centre (341.3676, 0) ccw
  arc A167 (382.4788, 0) -> (347.7586, 11.8482) centre (330.2495, -96.257) ccw
  arc A168 (347.7586, -11.8482) -> (382.4788, 0) centre (330.2495, 96.257) ccw
  arc A169 (211.3564, 0) -> (246.0766, -11.8482) centre (263.5857, 96.257) ccw
  arc A170 (246.0766, 11.8482) -> (211.3564, 0) centre (263.5857, -96.257) ccw
  arc A171 (246.0766, 11.8482) -> (246.0766, -11.8482) centre (252.4676, 0) ccw
  line L7 (252.4676, 8.89) -> (252.4676, -8.89) construction
  circle A172 centre (252.4676, 0) radius 8.89
  arc A173 (258.8586, -11.8482) -> (258.8586, 11.8482) centre (252.4676, 0) ccw
  arc A174 (293.5788, 0) -> (258.8586, 11.8482) centre (241.3495, -96.257) ccw
  arc A175 (258.8586, -11.8482) -> (293.5788, 0) centre (241.3495, 96.257) ccw
  arc A176 (122.4564, 0) -> (157.1766, -11.8482) centre (174.6857, 96.257) ccw
  arc A177 (157.1766, 11.8482) -> (122.4564, 0) centre (174.6857, -96.257) ccw
  arc A178 (157.1766, 11.8482) -> (157.1766, -11.8482) centre (163.5676, 0) ccw
  line L8 (163.5676, 8.89) -> (163.5676, -8.89) construction
  circle A179 centre (163.5676, 0) radius 8.89
  arc A180 (169.9586, -11.8482) -> (169.9586, 11.8482) centre (163.5676, 0) ccw
  arc A181 (204.6788, 0) -> (169.9586, 11.8482) centre (152.4495, -96.257) ccw
  arc A182 (169.9586, -11.8482) -> (204.6788, 0) centre (152.4495, 96.257) ccw
  line L9 (88.6116, 11.43) -> (116.3818, 11.43)
  line L10 (116.3818, 11.43) -> (116.3818, -11.43)
  line L11 (116.3818, -11.43) -> (88.6116, -11.43)
  line L12 (88.6116, -11.43) -> (88.6116, 11.43)
  line L13 (110.6883, 7.3883) -> (110.6883, -7.6711) construction
  point P0 (-7.62, 106.172)
  point P1 (9.4092, 94.8654)
  point P2 (614.3723, 99.0943)
  point P3 (659.8771, 70.7321)
  point P4 (685.1043, 23.4172)
  point P5 (683.2943, -30.1723)
  point P6 (654.9321, -75.6771)
  point P7 (607.6172, -100.9043)
  point P8 (116.3818, 0)
  dimension "d38" = 170
  dimension "d44" = 45.72
  dimension "d51" = 180
  dimension "d55" = 49.53
  dimension "d69" = 17.78
  dimension "d87" = 88.9
  dimension "d92" = 22.86
  dimension "d94" = 5.6935
extrude "Cut1" cut sketch "Fender Base" along normal through all contours A5 A3
extrude "Cut2" cut sketch "Fender Base" along normal through all contours A6 A7 A4
extrude "Cut3" cut sketch "Fender Base" along normal through all contours L10 A9 L14 A12
extrude "Cut4" cut sketch "Fender Base" along normal through all contours L23 L24 A20 A19
equation "\"d11\" = d10"
equation "\"d62\" = Thickness"
equation "\"d64\" = Thickness"
equation "\"d67\" = Thickness"
equation "\"BendRadius\" = Thickness"
equation "\"BendReliefWidth\" = Thickness"
equation "\"BendReliefDepth\" = 0.5 * Thickness"
equation "\"CornerReliefSize\" = 4 * Thickness"
equation "\"MinimumRemnant\" = 2 * Thickness"
equation "\"TransitionRadius\" = BendRadius"
equation "\"JacobiRadiusSize\" = Thickness"
equation "\"GapSize\" = Thickness"
equation "\"d23\" = BendRadius"
equation "\"Thickness\" = 1.62814"
properties part number "TG2" material "Aluminum 6061"
